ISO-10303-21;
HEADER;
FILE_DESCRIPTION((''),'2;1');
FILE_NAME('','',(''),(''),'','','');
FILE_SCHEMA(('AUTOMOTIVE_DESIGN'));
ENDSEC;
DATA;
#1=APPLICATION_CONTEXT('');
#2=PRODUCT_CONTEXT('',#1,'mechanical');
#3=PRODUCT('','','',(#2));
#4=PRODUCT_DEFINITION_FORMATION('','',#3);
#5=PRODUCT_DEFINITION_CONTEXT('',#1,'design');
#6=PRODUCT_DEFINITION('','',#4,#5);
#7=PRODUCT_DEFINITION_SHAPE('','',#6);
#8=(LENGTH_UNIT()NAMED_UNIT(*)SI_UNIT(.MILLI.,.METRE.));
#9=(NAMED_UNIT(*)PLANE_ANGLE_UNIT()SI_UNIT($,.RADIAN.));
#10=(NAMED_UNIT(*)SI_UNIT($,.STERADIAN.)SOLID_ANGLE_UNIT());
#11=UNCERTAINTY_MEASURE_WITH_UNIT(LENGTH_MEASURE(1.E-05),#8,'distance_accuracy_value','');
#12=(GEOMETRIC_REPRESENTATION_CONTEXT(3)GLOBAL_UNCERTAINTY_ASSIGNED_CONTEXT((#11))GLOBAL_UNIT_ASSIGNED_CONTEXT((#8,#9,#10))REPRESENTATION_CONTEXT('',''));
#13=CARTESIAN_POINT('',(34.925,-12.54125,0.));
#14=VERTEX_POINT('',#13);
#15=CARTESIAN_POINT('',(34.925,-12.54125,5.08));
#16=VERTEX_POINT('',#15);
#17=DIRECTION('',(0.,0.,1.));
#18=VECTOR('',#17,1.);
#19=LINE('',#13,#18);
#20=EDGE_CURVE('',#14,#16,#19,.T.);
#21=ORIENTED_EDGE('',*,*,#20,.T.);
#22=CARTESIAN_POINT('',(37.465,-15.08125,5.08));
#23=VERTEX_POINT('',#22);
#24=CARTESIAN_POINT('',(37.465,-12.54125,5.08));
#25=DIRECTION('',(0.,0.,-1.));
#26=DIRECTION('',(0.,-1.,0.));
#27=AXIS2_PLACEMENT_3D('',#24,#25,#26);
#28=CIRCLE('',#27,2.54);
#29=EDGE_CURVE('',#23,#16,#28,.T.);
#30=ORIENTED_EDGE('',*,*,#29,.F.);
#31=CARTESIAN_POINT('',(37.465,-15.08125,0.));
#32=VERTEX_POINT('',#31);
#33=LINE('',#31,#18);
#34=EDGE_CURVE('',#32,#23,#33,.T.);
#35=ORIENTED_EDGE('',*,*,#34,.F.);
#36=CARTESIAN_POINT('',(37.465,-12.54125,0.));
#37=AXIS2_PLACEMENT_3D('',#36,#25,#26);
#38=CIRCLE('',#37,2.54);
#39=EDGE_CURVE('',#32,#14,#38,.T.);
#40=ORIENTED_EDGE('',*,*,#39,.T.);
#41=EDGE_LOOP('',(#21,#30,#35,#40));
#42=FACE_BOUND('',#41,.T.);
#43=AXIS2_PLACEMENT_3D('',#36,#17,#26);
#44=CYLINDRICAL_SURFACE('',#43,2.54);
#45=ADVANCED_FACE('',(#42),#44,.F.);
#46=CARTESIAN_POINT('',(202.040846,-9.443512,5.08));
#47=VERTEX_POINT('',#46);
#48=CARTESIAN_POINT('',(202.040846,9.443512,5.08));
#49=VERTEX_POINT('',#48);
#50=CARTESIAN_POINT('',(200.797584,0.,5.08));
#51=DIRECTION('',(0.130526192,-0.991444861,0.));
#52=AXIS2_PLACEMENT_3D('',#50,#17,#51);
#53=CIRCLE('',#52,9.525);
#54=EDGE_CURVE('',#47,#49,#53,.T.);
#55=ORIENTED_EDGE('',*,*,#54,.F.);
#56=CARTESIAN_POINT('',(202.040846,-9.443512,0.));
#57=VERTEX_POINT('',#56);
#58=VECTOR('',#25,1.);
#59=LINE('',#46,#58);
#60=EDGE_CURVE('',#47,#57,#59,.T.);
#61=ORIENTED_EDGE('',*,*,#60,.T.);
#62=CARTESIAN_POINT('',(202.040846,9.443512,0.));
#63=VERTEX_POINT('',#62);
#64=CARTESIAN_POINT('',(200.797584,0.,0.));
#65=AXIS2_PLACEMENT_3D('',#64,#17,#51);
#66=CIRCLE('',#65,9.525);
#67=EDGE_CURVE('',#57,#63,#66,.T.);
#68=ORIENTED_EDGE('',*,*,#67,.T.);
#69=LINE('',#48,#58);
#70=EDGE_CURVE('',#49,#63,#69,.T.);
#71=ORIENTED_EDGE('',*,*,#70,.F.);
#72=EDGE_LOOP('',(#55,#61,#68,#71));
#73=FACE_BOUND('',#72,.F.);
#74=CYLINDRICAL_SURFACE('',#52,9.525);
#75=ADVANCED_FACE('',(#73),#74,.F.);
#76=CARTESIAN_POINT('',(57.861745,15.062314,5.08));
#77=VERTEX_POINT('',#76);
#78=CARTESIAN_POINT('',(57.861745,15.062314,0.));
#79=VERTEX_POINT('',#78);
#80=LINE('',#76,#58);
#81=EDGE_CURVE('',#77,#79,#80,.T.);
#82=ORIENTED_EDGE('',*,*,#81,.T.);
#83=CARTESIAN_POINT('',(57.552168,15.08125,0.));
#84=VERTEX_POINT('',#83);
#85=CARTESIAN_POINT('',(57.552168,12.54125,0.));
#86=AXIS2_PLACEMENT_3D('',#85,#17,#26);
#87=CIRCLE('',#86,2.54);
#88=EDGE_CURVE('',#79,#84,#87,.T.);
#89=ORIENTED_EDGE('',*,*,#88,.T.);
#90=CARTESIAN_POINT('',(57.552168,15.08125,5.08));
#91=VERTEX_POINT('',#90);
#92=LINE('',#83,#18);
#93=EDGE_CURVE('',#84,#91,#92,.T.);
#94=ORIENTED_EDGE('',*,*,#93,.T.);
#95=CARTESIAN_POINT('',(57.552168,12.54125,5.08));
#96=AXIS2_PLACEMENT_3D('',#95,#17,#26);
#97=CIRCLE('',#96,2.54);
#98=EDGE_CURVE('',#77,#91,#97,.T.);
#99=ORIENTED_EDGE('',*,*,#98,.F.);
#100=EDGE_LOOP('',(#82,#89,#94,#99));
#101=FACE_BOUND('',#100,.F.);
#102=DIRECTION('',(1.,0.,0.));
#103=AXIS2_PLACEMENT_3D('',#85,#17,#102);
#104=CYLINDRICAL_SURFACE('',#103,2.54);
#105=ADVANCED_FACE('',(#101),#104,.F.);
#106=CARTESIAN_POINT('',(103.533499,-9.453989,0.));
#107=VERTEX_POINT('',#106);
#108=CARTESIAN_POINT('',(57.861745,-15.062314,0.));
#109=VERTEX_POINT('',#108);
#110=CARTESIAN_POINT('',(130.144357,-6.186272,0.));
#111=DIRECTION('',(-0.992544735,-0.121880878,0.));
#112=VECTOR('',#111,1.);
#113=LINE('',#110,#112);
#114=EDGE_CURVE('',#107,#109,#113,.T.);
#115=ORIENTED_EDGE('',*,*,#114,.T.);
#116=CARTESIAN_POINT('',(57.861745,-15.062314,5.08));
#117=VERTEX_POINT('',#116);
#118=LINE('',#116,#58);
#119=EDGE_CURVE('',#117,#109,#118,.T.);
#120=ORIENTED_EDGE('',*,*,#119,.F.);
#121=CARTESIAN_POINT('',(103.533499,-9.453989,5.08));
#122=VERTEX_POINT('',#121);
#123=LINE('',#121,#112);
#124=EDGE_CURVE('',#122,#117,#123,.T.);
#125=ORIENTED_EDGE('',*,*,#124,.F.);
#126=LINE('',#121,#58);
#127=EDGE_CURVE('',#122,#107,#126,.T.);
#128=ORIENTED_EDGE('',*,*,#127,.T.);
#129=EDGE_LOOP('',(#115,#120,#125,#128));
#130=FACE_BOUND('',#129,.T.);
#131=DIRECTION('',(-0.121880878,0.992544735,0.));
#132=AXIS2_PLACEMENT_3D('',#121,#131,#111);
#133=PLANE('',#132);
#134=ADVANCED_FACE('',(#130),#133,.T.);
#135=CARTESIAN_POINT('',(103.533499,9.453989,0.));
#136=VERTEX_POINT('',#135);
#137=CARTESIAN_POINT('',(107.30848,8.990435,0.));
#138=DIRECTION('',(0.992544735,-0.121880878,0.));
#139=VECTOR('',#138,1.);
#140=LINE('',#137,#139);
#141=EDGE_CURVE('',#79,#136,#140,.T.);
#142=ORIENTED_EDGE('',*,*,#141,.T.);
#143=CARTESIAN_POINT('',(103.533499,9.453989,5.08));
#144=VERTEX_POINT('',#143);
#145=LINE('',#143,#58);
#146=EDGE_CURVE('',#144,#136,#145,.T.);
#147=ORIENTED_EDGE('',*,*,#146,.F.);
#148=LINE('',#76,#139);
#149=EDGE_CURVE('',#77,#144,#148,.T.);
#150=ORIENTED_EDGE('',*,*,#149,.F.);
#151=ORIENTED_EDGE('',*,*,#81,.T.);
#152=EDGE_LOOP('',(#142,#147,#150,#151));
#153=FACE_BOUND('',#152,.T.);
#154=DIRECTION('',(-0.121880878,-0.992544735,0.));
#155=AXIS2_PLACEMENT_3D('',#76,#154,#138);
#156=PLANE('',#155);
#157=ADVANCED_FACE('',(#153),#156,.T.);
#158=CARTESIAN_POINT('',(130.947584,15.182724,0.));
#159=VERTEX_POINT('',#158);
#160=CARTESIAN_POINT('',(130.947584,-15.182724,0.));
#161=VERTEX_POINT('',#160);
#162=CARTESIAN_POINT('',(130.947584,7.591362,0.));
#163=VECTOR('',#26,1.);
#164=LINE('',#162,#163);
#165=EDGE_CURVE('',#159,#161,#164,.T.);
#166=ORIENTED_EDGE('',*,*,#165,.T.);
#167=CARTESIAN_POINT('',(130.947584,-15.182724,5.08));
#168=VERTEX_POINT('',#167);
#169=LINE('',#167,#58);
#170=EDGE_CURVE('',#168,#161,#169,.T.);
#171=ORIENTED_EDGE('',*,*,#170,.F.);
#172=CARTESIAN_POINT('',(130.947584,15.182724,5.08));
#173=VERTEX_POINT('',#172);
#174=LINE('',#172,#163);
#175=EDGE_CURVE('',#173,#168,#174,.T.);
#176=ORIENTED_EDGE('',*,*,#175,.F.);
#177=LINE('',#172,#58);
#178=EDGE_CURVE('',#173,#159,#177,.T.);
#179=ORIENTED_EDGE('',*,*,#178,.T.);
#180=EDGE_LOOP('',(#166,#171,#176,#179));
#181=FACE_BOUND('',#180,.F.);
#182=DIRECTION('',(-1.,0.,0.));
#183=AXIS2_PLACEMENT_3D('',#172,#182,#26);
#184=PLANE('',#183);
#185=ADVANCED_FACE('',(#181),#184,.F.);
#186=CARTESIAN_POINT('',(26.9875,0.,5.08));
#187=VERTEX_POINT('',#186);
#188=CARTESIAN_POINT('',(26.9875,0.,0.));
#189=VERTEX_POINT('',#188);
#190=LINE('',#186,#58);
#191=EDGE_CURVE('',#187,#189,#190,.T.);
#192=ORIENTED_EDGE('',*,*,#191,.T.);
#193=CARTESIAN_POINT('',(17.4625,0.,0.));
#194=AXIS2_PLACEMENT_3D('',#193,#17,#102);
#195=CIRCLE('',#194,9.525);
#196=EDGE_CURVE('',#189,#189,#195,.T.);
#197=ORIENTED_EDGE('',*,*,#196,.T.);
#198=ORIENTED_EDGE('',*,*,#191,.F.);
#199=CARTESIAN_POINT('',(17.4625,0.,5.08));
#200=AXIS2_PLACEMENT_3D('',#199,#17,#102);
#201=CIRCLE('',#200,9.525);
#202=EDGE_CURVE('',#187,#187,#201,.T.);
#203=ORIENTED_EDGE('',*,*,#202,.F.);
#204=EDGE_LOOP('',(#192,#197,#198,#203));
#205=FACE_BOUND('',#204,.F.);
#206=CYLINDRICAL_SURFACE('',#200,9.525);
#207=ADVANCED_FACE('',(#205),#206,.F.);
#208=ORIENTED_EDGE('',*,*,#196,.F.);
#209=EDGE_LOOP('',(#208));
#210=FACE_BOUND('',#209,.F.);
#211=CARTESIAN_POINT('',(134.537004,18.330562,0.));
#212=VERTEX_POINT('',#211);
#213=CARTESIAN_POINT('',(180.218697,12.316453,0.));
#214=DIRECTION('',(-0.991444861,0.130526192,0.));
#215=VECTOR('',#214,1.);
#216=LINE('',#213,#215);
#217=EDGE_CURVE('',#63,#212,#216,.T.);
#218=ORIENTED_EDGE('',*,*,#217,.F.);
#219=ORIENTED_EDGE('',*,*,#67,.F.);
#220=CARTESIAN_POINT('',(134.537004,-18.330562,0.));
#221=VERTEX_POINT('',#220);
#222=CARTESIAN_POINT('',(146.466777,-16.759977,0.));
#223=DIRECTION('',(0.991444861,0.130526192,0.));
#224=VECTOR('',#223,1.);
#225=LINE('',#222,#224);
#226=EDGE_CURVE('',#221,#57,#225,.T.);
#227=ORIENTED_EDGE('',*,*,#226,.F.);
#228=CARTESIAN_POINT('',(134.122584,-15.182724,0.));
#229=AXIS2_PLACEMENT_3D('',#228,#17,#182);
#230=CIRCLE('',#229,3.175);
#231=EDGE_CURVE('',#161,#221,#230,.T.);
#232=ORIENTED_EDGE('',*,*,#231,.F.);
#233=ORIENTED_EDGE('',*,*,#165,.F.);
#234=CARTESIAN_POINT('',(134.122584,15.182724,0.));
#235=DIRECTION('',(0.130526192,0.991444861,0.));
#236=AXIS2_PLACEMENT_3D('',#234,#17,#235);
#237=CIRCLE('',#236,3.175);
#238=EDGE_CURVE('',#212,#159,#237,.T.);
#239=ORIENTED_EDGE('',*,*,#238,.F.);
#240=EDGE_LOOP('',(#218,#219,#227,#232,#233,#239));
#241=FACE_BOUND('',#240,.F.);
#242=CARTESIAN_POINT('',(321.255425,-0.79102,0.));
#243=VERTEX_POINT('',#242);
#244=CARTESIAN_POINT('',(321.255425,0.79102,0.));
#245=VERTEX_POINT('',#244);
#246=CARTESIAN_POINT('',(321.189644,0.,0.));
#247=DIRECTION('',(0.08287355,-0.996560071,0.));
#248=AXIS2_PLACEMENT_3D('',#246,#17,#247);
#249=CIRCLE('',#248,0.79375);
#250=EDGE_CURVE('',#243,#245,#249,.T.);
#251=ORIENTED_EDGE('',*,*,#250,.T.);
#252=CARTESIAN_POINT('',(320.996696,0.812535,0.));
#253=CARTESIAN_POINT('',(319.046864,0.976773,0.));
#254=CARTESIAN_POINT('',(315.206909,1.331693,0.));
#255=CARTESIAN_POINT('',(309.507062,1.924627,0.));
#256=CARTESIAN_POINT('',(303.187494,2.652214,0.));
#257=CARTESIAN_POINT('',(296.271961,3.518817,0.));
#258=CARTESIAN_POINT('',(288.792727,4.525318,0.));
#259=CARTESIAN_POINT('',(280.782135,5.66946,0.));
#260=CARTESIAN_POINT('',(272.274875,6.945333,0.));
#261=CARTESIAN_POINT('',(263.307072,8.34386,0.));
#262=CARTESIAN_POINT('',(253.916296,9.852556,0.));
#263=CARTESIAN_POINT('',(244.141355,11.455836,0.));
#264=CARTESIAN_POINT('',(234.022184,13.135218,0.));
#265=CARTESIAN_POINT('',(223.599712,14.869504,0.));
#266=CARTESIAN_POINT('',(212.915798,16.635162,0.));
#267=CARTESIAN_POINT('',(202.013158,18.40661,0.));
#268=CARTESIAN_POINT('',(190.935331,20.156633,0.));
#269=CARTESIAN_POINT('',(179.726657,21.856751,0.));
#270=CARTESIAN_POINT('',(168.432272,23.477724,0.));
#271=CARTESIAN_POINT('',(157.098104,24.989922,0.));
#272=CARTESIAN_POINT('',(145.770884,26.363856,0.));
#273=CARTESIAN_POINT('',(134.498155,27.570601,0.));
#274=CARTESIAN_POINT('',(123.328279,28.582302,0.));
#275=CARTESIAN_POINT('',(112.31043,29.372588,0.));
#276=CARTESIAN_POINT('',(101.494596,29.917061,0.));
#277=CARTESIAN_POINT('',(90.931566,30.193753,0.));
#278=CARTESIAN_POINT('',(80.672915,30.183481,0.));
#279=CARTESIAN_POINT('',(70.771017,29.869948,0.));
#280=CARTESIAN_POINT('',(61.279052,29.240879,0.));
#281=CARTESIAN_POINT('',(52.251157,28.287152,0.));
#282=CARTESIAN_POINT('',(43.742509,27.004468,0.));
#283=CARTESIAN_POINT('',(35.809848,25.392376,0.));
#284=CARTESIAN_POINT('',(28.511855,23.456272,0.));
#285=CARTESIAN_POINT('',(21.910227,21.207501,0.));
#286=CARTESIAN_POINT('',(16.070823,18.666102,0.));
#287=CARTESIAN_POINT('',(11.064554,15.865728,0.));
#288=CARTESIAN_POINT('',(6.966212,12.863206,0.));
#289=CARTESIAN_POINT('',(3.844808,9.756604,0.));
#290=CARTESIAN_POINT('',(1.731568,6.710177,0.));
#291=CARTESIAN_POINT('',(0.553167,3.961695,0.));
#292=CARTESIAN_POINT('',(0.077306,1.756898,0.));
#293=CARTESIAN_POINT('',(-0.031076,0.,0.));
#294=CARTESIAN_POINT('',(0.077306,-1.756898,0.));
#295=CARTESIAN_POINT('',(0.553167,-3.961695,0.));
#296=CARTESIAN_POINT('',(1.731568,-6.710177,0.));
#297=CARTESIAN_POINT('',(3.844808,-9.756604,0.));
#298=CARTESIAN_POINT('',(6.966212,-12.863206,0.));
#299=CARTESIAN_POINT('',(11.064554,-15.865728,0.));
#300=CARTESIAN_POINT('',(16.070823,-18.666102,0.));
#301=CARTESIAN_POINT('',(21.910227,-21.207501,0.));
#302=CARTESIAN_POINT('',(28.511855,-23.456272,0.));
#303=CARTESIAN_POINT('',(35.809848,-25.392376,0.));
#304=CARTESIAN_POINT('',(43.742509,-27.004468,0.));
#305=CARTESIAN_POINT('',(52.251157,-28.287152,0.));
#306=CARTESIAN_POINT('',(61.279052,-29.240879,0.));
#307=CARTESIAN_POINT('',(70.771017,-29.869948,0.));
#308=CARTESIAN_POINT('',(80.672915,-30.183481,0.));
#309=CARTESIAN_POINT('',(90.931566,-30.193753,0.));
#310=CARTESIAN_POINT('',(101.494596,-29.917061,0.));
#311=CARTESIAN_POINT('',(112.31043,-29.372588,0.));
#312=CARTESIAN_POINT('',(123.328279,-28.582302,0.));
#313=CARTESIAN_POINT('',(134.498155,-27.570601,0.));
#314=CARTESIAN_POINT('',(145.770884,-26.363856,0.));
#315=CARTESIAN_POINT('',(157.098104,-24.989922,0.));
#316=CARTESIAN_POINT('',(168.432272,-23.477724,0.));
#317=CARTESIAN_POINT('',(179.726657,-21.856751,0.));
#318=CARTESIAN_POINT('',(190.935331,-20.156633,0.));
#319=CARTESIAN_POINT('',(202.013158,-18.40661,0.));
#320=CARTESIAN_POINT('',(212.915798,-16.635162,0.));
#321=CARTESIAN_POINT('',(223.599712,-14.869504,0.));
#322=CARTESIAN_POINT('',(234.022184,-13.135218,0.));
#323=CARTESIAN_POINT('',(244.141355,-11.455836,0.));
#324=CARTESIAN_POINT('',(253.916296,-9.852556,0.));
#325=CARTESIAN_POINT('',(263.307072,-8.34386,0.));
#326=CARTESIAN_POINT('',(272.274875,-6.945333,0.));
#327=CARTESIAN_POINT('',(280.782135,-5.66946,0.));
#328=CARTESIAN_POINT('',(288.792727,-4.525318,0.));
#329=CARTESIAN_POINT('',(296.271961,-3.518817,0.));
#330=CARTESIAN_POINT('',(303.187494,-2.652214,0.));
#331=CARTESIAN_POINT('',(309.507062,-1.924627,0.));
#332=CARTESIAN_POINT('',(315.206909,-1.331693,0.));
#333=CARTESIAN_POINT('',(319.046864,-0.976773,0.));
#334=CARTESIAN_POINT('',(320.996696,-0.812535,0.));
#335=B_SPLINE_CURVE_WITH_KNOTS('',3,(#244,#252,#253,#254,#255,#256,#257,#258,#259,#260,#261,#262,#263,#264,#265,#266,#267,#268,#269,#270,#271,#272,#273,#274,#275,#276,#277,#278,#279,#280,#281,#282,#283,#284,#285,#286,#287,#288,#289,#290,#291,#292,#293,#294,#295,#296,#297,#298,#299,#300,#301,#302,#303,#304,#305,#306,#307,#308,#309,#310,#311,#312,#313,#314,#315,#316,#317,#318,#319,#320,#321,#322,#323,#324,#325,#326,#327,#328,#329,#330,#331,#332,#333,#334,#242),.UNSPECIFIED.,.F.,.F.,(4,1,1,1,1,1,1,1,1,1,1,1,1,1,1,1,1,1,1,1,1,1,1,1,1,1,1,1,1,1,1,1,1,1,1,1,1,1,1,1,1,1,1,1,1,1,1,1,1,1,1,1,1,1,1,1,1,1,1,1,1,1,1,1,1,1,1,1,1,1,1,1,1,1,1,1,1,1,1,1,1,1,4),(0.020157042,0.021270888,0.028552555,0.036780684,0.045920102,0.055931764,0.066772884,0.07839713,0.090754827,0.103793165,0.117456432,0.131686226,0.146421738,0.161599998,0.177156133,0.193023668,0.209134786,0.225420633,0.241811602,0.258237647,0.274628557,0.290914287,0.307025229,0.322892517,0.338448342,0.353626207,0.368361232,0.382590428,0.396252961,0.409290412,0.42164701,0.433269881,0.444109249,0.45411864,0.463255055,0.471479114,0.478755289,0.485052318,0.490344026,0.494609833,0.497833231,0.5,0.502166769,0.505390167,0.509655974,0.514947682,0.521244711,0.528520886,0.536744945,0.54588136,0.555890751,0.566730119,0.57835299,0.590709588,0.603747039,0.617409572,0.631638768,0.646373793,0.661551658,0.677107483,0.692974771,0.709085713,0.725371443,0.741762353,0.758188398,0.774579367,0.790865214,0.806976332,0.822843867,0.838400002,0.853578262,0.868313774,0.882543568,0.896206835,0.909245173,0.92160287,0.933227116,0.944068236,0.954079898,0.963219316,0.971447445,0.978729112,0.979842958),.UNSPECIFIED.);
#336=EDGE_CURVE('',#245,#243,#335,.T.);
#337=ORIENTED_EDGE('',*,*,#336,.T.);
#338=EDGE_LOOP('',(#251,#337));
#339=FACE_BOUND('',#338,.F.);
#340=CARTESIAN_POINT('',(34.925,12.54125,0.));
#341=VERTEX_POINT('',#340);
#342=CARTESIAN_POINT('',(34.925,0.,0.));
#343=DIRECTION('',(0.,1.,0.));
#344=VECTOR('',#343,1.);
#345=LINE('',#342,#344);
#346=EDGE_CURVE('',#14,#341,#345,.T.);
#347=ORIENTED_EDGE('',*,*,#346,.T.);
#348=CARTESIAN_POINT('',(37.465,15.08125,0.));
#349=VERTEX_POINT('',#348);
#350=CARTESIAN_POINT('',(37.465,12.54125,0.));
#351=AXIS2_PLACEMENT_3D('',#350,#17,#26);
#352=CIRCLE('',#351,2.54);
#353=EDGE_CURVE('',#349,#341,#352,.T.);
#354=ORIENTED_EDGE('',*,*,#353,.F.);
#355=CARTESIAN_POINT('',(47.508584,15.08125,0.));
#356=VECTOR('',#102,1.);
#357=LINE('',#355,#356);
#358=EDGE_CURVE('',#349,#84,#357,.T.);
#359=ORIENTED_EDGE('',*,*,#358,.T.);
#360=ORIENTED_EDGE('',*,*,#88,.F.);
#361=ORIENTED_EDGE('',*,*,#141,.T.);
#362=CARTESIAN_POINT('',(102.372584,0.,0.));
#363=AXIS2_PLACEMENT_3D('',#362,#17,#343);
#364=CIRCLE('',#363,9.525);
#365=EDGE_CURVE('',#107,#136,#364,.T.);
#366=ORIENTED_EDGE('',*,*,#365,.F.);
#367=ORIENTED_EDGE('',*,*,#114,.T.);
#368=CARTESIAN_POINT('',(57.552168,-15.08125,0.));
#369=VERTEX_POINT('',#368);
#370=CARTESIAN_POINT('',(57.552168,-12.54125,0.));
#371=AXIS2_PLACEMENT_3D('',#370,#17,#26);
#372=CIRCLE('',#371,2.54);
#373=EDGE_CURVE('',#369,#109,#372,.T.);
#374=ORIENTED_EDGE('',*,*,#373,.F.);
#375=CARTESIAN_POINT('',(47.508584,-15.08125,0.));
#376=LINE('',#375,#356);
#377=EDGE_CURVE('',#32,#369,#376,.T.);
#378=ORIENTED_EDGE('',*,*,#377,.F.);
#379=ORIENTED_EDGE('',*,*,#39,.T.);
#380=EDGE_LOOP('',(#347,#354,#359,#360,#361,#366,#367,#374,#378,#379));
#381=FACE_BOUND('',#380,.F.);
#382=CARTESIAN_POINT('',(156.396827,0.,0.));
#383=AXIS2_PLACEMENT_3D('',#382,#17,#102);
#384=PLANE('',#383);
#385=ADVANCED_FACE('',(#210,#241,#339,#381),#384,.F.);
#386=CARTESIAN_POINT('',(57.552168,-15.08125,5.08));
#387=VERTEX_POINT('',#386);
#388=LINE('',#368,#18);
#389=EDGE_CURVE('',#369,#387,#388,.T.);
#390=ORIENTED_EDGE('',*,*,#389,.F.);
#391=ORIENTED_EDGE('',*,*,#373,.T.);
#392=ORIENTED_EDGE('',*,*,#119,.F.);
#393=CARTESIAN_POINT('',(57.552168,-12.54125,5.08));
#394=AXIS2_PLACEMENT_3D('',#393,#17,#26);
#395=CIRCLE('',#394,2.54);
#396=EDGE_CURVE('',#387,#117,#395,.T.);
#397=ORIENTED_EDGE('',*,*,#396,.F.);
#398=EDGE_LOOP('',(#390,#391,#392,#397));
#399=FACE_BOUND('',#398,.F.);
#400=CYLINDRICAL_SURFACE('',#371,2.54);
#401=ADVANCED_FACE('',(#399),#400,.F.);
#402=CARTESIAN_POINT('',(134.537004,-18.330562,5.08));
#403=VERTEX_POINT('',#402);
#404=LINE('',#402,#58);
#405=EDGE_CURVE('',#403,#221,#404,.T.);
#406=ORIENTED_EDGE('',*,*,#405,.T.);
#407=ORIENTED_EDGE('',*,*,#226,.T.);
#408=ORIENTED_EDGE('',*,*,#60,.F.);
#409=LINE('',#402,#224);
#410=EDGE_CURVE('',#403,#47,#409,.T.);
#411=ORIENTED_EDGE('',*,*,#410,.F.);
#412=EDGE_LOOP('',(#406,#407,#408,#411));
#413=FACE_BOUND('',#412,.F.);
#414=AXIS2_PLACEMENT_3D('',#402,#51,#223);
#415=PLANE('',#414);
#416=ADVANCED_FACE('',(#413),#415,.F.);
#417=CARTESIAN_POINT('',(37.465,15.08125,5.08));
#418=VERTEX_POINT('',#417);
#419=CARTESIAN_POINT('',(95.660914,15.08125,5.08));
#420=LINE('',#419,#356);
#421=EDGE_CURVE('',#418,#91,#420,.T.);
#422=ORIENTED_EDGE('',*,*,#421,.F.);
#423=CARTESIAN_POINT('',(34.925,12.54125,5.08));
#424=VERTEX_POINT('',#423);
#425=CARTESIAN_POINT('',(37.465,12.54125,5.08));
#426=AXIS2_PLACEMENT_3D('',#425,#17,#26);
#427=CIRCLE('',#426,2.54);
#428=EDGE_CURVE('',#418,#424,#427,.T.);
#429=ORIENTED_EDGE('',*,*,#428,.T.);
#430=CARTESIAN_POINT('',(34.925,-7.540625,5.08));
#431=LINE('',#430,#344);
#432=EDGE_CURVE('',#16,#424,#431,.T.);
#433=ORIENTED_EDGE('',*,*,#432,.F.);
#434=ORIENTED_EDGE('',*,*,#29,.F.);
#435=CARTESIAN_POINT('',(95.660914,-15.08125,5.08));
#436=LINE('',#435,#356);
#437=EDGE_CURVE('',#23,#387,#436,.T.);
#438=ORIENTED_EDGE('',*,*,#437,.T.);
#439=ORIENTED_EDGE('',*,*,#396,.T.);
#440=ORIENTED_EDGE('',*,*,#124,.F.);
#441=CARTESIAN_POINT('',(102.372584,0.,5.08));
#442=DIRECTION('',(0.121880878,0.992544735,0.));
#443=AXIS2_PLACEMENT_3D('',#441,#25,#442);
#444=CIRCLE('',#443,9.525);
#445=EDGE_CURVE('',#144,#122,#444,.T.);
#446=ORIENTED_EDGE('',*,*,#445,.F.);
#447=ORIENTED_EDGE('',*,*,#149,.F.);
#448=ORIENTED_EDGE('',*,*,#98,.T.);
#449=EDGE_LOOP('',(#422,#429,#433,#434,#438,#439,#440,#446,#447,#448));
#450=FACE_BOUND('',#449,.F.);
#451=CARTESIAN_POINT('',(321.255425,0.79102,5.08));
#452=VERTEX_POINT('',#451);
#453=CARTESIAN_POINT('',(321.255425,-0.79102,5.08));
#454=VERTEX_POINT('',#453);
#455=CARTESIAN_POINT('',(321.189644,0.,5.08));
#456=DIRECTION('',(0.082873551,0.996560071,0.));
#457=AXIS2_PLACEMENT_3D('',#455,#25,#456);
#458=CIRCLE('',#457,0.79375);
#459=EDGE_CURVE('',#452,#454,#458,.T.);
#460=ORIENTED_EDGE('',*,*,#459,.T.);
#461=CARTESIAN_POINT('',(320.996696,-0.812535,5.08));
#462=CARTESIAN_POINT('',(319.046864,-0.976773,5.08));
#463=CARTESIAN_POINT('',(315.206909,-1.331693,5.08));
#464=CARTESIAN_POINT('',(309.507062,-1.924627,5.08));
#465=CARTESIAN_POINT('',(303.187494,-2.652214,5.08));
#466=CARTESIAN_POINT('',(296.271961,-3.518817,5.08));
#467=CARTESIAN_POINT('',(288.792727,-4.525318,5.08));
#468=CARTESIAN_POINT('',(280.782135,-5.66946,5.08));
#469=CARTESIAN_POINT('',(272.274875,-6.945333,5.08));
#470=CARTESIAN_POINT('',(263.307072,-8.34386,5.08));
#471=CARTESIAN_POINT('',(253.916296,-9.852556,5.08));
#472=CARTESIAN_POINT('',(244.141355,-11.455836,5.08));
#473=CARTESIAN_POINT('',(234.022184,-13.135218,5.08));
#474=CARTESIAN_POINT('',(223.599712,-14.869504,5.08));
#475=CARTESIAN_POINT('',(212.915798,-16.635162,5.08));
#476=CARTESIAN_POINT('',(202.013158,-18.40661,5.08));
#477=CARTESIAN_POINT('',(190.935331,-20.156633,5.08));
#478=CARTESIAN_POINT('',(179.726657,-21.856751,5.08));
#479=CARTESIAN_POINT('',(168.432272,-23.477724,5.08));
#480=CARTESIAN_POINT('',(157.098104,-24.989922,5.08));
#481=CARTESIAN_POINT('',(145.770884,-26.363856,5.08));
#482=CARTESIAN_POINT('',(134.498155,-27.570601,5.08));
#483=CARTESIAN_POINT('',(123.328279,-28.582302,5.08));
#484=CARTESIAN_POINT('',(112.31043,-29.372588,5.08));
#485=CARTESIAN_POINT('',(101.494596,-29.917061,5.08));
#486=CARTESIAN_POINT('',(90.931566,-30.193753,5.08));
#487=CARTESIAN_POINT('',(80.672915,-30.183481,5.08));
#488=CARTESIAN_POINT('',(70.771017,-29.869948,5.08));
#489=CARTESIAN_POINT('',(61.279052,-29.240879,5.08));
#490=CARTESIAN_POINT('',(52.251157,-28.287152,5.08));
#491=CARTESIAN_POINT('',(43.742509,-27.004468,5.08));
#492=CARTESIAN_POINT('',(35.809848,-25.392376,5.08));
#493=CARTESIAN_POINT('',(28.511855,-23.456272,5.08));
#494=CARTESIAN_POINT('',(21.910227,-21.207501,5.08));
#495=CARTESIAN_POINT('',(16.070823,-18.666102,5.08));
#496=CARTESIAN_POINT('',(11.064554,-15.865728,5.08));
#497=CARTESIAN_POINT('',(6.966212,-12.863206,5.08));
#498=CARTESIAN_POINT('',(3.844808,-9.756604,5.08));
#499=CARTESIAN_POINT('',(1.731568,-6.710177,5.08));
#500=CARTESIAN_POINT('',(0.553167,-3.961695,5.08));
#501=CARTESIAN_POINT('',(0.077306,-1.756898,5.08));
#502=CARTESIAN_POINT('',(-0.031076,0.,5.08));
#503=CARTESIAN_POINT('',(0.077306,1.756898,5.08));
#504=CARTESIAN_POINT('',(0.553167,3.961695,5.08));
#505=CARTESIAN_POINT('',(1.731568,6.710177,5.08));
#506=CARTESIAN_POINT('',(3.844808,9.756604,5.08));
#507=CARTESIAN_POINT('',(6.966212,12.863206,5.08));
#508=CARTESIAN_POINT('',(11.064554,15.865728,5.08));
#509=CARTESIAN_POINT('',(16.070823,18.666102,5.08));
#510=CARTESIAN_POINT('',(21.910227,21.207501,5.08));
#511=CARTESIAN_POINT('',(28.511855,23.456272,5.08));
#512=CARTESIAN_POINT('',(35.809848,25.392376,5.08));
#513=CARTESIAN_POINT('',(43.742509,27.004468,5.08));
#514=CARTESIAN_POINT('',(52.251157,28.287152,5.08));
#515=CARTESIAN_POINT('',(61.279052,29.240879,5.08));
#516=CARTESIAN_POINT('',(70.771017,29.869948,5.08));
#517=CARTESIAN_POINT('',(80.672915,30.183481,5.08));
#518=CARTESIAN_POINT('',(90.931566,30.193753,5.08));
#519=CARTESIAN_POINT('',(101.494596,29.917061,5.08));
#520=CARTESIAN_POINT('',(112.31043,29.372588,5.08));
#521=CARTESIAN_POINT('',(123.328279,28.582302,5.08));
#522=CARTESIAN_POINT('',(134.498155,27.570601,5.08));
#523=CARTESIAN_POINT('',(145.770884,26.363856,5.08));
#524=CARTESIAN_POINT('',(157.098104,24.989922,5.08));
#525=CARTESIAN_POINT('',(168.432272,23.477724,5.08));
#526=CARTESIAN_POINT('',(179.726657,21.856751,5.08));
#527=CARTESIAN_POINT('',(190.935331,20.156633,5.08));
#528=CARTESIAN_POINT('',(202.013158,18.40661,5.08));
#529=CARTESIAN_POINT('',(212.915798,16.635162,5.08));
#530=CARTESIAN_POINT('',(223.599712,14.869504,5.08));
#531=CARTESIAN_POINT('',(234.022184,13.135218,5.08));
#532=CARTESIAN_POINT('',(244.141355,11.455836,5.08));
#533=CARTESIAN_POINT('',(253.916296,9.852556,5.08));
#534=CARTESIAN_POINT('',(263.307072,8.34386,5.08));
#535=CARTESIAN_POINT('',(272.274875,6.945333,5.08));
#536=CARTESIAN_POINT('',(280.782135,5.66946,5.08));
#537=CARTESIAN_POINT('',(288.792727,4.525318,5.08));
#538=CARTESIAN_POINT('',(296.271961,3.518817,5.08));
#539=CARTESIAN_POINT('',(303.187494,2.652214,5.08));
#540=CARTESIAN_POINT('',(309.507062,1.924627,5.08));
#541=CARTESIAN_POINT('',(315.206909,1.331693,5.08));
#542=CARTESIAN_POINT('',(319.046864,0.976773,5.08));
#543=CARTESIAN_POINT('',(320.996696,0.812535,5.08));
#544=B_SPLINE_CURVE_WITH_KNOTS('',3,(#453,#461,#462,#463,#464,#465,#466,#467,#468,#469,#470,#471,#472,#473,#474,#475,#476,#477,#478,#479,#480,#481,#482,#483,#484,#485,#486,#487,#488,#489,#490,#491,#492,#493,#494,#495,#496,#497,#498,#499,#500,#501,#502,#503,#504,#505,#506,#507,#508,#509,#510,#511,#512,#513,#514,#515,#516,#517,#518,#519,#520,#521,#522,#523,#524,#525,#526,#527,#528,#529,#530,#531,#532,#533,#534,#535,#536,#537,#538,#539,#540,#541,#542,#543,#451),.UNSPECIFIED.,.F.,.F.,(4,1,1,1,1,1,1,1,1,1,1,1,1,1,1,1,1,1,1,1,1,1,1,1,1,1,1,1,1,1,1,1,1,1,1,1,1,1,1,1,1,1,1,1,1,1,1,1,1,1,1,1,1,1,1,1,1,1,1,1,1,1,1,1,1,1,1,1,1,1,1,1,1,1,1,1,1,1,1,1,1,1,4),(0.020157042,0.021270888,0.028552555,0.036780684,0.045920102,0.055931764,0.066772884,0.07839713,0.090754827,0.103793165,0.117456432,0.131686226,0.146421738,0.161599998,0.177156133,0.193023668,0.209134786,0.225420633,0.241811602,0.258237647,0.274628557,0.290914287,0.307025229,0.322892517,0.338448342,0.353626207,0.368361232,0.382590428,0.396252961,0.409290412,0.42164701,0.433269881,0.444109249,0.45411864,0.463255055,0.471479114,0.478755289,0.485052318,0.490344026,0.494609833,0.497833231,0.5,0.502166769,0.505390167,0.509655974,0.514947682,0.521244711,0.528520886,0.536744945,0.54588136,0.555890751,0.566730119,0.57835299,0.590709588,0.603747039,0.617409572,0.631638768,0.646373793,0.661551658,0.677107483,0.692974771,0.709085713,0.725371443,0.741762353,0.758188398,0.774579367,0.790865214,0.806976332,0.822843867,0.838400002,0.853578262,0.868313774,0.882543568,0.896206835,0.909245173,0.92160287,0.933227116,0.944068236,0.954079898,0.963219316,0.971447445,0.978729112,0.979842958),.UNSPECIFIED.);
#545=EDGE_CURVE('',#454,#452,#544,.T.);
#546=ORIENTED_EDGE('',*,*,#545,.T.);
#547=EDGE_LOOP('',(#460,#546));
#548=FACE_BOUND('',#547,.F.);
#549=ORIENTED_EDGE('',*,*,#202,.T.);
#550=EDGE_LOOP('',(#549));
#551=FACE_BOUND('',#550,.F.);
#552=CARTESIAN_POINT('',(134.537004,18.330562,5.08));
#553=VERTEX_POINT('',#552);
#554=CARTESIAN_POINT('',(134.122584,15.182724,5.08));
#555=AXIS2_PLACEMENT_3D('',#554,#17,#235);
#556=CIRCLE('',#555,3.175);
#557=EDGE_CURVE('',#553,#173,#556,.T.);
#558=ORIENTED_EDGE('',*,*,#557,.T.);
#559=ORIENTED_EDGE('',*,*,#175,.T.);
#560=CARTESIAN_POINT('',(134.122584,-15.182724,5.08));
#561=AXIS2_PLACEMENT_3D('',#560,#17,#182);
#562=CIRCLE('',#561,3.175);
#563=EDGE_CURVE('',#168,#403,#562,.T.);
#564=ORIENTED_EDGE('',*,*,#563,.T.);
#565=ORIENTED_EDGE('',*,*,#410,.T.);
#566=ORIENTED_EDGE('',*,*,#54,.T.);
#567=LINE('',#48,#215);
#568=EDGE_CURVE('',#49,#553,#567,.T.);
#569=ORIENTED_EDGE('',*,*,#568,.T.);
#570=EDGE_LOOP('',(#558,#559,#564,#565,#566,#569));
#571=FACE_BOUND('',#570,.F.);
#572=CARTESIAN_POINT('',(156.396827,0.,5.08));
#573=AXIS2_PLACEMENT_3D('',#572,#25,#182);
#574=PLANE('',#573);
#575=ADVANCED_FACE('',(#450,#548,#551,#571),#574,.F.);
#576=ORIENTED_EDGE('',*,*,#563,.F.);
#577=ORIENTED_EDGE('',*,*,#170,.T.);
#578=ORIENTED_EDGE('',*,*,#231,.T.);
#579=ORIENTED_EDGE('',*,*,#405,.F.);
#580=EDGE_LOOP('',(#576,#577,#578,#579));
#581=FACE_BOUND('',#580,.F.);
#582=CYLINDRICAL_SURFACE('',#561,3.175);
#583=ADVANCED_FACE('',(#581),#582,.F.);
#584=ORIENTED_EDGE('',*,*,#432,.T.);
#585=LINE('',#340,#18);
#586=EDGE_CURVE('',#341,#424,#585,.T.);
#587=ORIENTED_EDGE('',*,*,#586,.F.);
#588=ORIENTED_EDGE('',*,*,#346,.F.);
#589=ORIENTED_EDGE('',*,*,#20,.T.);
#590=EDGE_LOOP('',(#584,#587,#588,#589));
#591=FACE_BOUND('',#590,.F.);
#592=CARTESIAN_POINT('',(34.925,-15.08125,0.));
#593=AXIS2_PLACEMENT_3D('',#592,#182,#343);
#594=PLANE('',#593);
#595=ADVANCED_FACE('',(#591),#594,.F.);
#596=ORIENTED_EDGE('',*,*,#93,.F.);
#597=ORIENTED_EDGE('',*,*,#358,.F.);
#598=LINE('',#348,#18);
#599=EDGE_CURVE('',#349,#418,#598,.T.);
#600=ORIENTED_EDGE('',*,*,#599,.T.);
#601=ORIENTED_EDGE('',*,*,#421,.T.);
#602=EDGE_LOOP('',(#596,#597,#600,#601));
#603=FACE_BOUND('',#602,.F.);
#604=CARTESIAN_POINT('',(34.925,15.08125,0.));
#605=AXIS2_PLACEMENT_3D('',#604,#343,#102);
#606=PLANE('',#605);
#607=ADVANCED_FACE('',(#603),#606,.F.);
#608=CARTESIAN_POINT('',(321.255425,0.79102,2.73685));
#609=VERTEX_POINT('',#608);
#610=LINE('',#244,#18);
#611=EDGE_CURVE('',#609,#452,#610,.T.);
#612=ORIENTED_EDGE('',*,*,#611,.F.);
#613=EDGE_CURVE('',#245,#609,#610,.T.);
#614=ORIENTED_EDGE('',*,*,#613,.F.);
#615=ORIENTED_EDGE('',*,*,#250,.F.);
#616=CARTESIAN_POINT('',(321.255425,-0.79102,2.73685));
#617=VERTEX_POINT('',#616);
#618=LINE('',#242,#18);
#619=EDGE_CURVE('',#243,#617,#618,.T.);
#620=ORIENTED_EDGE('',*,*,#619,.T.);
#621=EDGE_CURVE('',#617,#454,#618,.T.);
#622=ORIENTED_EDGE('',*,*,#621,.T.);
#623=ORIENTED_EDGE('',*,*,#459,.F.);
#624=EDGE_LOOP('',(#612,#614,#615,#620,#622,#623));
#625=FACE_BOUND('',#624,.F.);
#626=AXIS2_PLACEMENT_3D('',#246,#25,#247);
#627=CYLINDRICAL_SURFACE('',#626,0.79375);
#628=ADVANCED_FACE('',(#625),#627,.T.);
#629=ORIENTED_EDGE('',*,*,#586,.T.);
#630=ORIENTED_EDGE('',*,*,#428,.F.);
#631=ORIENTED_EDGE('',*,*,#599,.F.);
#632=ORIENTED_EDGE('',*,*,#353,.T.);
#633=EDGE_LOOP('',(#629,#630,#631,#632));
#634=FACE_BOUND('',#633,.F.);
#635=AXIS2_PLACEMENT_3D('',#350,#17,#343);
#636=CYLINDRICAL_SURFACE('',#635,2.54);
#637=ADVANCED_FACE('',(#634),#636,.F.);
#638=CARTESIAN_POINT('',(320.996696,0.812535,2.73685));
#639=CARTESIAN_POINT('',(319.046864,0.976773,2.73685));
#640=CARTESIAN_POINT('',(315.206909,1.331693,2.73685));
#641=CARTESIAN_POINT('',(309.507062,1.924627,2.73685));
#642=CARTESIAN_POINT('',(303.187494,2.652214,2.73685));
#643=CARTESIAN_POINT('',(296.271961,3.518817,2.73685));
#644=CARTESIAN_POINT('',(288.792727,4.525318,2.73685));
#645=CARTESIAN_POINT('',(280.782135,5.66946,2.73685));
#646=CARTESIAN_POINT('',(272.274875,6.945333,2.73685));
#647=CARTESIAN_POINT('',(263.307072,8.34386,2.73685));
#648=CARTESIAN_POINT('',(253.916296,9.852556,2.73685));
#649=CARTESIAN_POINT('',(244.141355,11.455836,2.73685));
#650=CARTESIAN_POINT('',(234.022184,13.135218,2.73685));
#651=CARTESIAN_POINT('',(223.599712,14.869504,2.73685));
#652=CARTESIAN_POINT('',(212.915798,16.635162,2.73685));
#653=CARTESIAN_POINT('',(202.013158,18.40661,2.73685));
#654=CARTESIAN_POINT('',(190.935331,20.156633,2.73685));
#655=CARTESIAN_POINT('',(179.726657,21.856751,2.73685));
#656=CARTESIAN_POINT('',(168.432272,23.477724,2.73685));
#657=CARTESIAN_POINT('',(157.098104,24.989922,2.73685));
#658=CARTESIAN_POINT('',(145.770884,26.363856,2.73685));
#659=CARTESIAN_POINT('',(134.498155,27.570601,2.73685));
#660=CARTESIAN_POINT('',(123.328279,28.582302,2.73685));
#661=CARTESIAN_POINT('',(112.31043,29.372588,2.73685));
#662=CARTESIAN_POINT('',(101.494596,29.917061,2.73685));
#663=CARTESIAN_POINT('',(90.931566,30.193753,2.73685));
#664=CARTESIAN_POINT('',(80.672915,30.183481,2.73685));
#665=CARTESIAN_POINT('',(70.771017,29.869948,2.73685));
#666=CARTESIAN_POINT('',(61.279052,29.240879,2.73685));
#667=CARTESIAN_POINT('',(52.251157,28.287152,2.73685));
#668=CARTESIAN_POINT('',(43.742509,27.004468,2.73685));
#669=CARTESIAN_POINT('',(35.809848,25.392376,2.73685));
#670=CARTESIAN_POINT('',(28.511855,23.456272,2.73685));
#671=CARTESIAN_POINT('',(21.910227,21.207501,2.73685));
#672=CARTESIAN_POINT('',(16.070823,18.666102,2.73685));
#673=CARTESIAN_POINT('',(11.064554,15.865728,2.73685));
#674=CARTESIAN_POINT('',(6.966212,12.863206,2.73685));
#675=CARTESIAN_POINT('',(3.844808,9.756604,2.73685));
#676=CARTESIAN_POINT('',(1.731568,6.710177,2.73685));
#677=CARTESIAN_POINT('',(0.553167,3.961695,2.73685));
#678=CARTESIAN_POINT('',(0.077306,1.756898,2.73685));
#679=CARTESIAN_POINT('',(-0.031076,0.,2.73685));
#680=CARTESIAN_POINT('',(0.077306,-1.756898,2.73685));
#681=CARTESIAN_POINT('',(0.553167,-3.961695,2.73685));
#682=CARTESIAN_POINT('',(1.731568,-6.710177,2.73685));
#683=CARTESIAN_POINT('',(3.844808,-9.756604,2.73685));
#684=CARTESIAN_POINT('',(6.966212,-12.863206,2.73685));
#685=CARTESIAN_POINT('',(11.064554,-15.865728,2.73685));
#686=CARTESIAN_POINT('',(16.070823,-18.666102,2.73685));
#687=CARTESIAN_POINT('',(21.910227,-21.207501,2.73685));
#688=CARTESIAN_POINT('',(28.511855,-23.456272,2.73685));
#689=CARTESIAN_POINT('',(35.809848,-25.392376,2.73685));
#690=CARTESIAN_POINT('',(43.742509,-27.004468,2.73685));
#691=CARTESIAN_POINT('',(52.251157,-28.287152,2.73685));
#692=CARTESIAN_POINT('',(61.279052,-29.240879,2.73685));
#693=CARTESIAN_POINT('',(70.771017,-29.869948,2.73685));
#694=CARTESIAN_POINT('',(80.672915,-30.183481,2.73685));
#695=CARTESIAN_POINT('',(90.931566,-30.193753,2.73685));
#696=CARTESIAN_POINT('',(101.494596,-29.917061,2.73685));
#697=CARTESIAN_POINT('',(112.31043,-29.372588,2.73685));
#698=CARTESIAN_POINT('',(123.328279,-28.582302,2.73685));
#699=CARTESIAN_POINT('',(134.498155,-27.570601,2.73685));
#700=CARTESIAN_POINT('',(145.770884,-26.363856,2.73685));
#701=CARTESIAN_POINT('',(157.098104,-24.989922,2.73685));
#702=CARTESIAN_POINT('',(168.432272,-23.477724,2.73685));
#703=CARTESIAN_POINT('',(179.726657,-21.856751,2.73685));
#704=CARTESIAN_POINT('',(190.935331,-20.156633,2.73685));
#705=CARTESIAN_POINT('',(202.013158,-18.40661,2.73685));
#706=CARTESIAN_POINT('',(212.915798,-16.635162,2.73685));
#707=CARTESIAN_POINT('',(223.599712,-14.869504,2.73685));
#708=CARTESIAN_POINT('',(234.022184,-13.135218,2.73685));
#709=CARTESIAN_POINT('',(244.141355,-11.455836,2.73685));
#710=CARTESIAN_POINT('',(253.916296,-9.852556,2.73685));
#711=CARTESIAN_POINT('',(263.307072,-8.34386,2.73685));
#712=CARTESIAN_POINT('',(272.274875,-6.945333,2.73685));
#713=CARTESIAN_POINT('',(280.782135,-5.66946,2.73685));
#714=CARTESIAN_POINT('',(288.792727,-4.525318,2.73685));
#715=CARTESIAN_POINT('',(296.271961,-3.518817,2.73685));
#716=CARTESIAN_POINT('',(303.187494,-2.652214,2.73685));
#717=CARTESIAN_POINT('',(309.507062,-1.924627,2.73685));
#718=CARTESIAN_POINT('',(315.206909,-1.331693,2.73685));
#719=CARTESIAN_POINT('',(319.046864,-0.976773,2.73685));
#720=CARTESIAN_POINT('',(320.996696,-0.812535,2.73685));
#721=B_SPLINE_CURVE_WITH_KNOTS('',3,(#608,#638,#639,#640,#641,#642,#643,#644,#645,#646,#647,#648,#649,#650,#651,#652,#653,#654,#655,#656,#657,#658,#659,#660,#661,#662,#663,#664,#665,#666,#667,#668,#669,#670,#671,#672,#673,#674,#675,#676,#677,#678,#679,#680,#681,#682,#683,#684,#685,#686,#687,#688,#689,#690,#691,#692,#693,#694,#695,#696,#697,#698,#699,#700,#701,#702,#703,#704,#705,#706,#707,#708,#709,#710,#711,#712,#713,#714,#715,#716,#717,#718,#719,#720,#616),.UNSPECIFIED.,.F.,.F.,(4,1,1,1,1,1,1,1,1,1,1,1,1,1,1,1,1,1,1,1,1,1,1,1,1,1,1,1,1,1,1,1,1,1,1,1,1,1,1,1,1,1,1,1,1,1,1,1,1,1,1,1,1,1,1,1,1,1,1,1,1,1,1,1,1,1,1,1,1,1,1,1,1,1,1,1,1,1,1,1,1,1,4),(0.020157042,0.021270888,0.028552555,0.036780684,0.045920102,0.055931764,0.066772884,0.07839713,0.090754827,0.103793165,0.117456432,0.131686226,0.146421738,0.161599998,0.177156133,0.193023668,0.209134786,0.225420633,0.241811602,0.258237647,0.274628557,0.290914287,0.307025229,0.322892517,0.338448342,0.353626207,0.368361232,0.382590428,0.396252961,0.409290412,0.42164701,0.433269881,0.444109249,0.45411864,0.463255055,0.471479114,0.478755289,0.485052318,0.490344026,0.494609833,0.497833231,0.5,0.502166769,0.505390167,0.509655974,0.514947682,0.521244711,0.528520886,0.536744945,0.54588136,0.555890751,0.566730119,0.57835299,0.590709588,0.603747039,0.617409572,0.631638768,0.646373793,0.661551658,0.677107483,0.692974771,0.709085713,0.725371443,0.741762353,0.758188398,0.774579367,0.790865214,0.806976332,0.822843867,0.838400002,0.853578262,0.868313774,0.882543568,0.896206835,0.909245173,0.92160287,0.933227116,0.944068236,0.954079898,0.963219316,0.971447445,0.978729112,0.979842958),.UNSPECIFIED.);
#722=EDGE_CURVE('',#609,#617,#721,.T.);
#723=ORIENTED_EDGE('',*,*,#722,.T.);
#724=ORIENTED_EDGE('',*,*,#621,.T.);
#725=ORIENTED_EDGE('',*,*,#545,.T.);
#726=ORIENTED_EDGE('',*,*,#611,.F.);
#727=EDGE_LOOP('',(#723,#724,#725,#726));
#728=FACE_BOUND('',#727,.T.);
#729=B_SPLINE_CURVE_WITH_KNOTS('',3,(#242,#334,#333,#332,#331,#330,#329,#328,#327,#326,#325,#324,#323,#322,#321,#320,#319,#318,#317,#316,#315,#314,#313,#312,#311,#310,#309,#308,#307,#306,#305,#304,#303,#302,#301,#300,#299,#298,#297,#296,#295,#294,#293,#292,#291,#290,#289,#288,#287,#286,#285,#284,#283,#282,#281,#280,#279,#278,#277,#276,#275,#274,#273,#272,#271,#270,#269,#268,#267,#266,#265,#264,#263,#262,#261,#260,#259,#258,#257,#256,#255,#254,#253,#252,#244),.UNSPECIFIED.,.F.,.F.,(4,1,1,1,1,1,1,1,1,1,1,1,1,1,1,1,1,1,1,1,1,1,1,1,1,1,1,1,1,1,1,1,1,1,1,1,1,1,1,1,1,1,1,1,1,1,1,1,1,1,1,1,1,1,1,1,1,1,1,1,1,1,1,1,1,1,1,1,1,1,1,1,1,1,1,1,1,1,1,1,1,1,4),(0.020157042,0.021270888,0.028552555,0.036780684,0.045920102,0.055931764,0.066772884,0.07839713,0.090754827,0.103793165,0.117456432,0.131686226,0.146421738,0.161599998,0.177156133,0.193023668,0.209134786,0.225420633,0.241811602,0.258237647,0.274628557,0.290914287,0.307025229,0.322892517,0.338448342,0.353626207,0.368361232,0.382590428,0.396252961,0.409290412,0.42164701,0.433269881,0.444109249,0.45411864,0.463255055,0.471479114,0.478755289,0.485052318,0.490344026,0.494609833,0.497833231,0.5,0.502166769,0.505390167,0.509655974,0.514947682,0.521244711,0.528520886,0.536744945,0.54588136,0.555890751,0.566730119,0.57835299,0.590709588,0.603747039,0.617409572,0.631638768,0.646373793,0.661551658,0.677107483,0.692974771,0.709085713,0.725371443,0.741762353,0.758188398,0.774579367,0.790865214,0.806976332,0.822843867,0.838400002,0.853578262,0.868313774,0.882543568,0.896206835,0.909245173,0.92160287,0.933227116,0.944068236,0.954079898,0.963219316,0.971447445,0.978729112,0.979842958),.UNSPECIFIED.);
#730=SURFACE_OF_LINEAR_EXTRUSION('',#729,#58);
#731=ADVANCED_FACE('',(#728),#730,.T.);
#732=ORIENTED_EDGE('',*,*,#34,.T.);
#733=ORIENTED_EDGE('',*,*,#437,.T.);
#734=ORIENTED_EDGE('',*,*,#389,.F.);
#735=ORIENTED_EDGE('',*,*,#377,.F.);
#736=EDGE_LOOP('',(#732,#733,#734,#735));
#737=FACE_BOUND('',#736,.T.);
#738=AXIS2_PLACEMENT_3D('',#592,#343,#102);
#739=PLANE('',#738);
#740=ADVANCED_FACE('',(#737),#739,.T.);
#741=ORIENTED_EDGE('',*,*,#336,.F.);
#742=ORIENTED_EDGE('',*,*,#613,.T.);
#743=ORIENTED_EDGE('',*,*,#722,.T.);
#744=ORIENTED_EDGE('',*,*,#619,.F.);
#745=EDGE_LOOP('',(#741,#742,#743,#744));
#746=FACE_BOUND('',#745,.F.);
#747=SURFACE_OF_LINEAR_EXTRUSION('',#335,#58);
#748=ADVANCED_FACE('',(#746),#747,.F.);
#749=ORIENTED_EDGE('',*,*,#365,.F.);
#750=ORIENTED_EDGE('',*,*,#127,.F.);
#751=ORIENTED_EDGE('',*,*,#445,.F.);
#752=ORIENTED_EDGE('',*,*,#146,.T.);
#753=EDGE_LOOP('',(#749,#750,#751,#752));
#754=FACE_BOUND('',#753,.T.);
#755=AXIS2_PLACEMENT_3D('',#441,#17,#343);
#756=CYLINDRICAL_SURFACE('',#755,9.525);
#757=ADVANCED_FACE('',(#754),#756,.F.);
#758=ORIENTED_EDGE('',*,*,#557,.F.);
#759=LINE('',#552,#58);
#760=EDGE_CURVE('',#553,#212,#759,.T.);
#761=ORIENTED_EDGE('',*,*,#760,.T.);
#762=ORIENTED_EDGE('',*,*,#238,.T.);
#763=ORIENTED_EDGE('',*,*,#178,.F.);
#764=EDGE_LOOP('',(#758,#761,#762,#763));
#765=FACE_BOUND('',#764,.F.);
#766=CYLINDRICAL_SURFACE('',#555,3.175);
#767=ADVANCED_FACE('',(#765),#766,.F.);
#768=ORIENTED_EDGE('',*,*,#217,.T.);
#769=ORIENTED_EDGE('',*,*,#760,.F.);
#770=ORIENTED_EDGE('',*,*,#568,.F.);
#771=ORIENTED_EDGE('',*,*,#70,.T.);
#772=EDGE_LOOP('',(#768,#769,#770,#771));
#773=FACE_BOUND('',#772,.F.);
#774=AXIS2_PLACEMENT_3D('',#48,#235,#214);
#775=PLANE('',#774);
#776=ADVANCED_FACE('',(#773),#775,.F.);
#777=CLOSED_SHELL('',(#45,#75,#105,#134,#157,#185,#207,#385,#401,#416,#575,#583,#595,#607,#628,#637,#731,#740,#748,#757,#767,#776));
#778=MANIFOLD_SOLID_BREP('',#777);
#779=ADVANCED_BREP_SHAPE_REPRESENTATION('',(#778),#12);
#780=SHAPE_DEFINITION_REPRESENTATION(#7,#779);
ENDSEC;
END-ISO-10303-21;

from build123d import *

# Parameters (mm, degrees)
BOSS_EXTRUDE1_DEPTH = 5.4737
SCALE1_SCALE        = 0.5
BOSS_EXTRUDE2_DEPTH = 5.08
SKETCH10_W          = 25.167167629
SKETCH10_H          = 30.1625
CUT_EXTRUDE6_DEPTH  = 6.0800001
FILLET1_R           = 2.54
CUT_EXTRUDE8_DEPTH  = 6.0800001
CUT_EXTRUDE9_DEPTH  = 6.0800001
SKETCH19_R          = 9.525
CUT_EXTRUDE10_DEPTH = 6.0800001


with BuildPart() as part:
    # Sketch2 → Boss-Extrude1 (new body)
    with BuildSketch(Plane.XY):
        with BuildLine():
            add(Edge.make_bspline(
                [(642.510849283, 1.582039112), (641.993392355, 1.625070631), (638.093728429, 1.953546407), (630.413817462, 2.663385493), (619.014124193, 3.849253664), (606.374988512, 5.304428983), (592.543922516, 7.037634907), (577.585454095, 9.050636147), (561.564270734, 11.338919625), (544.549749946, 13.890665375), (526.614143658, 16.687720753), (507.832591566, 19.705111663), (488.282710288, 22.911672601), (468.044367735, 26.27043606), (447.199424328, 29.739007432), (425.831595832, 33.270324121), (404.02631566, 36.813220545), (381.870662856, 40.313266856), (359.453314895, 43.713502532), (336.86454415, 46.955447457), (314.196207315, 49.979843895), (291.541767704, 52.727712704), (268.996310773, 55.141201012), (246.65655865, 57.164603829), (224.620860897, 58.745176641), (202.989192599, 59.8341217), (181.863132616, 60.387506142), (161.345829027, 60.366961324), (141.542033828, 59.739895824), (122.558104573, 58.481758104), (104.502313427, 56.574303932), (87.485018636, 54.008935199), (71.619696083, 50.784752003), (57.023709725, 46.912543066), (43.82045433, 42.41500246), (32.141645239, 37.332204029), (22.129107375, 31.731455339), (13.932423524, 25.726412106), (7.689616489, 19.513207632), (3.463136343, 13.420354421), (1.106333228, 7.923389435), (0.154611582, 3.513796615), (-0.062151598, 0), (0.154611582, -3.513796615), (1.106333228, -7.923389435), (3.463136343, -13.420354421), (7.689616489, -19.513207632), (13.932423524, -25.726412106), (22.129107375, -31.731455339), (32.141645239, -37.332204029), (43.82045433, -42.41500246), (57.023709725, -46.912543066), (71.619696083, -50.784752003), (87.485018636, -54.008935199), (104.502313427, -56.574303932), (122.558104573, -58.481758104), (141.542033828, -59.739895824), (161.345829027, -60.366961324), (181.863132616, -60.387506142), (202.989192599, -59.8341217), (224.620860897, -58.745176641), (246.65655865, -57.164603829), (268.996310773, -55.141201012), (291.541767704, -52.727712704), (314.196207315, -49.979843895), (336.86454415, -46.955447457), (359.453314895, -43.713502532), (381.870662856, -40.313266856), (404.02631566, -36.813220545), (425.831595832, -33.270324121), (447.199424328, -29.739007432), (468.044367735, -26.27043606), (488.282710288, -22.911672601), (507.832591566, -19.705111663), (526.614143658, -16.687720753), (544.549749946, -13.890665375), (561.564270734, -11.338919625), (577.585454095, -9.050636147), (592.543922516, -7.037634907), (606.374988512, -5.304428983), (619.014124193, -3.849253664), (630.413817462, -2.663385493), (638.093728429, -1.953546407), (641.993392355, -1.625070631), (642.510849283, -1.582039112)],
                knots=[0.020157042, 0.020157042, 0.020157042, 0.020157042, 0.021270888, 0.028552555, 0.036780684, 0.045920102, 0.055931764, 0.066772884, 0.07839713, 0.090754827, 0.103793165, 0.117456432, 0.131686226, 0.146421738, 0.161599998, 0.177156133, 0.193023668, 0.209134786, 0.225420633, 0.241811602, 0.258237647, 0.274628557, 0.290914287, 0.307025229, 0.322892517, 0.338448342, 0.353626207, 0.368361232, 0.382590428, 0.396252961, 0.409290412, 0.42164701, 0.433269881, 0.444109249, 0.45411864, 0.463255055, 0.471479114, 0.478755289, 0.485052318, 0.490344026, 0.494609833, 0.497833231, 0.5, 0.502166769, 0.505390167, 0.509655974, 0.514947682, 0.521244711, 0.528520886, 0.536744945, 0.54588136, 0.555890751, 0.566730119, 0.57835299, 0.590709588, 0.603747039, 0.617409572, 0.631638768, 0.646373793, 0.661551658, 0.677107483, 0.692974771, 0.709085713, 0.725371443, 0.741762353, 0.758188398, 0.774579367, 0.790865214, 0.806976332, 0.822843867, 0.838400002, 0.853578262, 0.868313774, 0.882543568, 0.896206835, 0.909245173, 0.92160287, 0.933227116, 0.944068236, 0.954079898, 0.963219316, 0.971447445, 0.978729112, 0.979842958, 0.979842958, 0.979842958, 0.979842958], degree=3))
            ThreePointArc((642.510849283, -1.582039112), (643.966787522, 0), (642.510849283, 1.582039112))
        make_face()
    extrude(amount=BOSS_EXTRUDE1_DEPTH)


with BuildPart() as part_1:
    # Scale1: scaled about (0, 0, 0)
    add(part.part.scale(SCALE1_SCALE))

    # Sketch11 → Boss-Extrude2 (add)
    with BuildSketch(Plane(origin=(0, 0, 0), x_dir=(-1, 0, 0), z_dir=(0, 0, -1))):
        with BuildLine():
            ThreePointArc((-321.255424642, 0.791019556), (-321.983393761, 0), (-321.255424642, -0.791019556))
            add(Edge.make_bspline(
                [(-321.255424642, -0.791019556), (-320.996696177, -0.812535315), (-319.046864214, -0.976773204), (-315.206908731, -1.331692747), (-309.507062097, -1.924626832), (-303.187494256, -2.652214492), (-296.271961258, -3.518817454), (-288.792727048, -4.525318074), (-280.782135367, -5.669459812), (-272.274874973, -6.945332687), (-263.307071829, -8.343860376), (-253.916295783, -9.852555831), (-244.141355144, -11.4558363), (-234.022183867, -13.13521803), (-223.599712164, -14.869503716), (-212.915797916, -16.63516206), (-202.01315783, -18.406610273), (-190.935331428, -20.156633428), (-179.726657448, -21.856751266), (-168.432272075, -23.477723728), (-157.098103658, -24.989921948), (-145.770883852, -26.363856352), (-134.498155387, -27.570600506), (-123.328279325, -28.582301914), (-112.310430449, -29.372588321), (-101.4945963, -29.91706085), (-90.931566308, -30.193753071), (-80.672914513, -30.183480662), (-70.771016914, -29.869947912), (-61.279052286, -29.240879052), (-52.251156714, -28.287151966), (-43.742509318, -27.0044676), (-35.809848042, -25.392376001), (-28.511854862, -23.456271533), (-21.910227165, -21.20750123), (-16.070822619, -18.666102014), (-11.064553688, -15.865727669), (-6.966211762, -12.863206053), (-3.844808245, -9.756603816), (-1.731568172, -6.71017721), (-0.553166614, -3.961694717), (-0.077305791, -1.756898308), (0.031075799, 0), (-0.077305791, 1.756898308), (-0.553166614, 3.961694717), (-1.731568172, 6.71017721), (-3.844808245, 9.756603816), (-6.966211762, 12.863206053), (-11.064553688, 15.865727669), (-16.070822619, 18.666102014), (-21.910227165, 21.20750123), (-28.511854862, 23.456271533), (-35.809848042, 25.392376001), (-43.742509318, 27.0044676), (-52.251156714, 28.287151966), (-61.279052286, 29.240879052), (-70.771016914, 29.869947912), (-80.672914513, 30.183480662), (-90.931566308, 30.193753071), (-101.4945963, 29.91706085), (-112.310430449, 29.372588321), (-123.328279325, 28.582301914), (-134.498155387, 27.570600506), (-145.770883852, 26.363856352), (-157.098103658, 24.989921948), (-168.432272075, 23.477723728), (-179.726657448, 21.856751266), (-190.935331428, 20.156633428), (-202.01315783, 18.406610273), (-212.915797916, 16.63516206), (-223.599712164, 14.869503716), (-234.022183867, 13.13521803), (-244.141355144, 11.4558363), (-253.916295783, 9.852555831), (-263.307071829, 8.343860376), (-272.274874973, 6.945332687), (-280.782135367, 5.669459812), (-288.792727048, 4.525318074), (-296.271961258, 3.518817454), (-303.187494256, 2.652214492), (-309.507062097, 1.924626832), (-315.206908731, 1.331692747), (-319.046864214, 0.976773204), (-320.996696177, 0.812535315), (-321.255424642, 0.791019556)],
                knots=[0.020157042, 0.020157042, 0.020157042, 0.020157042, 0.021270888, 0.028552555, 0.036780684, 0.045920102, 0.055931764, 0.066772884, 0.07839713, 0.090754827, 0.103793165, 0.117456432, 0.131686226, 0.146421738, 0.161599998, 0.177156133, 0.193023668, 0.209134786, 0.225420633, 0.241811602, 0.258237647, 0.274628557, 0.290914287, 0.307025229, 0.322892517, 0.338448342, 0.353626207, 0.368361232, 0.382590428, 0.396252961, 0.409290412, 0.42164701, 0.433269881, 0.444109249, 0.45411864, 0.463255055, 0.471479114, 0.478755289, 0.485052318, 0.490344026, 0.494609833, 0.497833231, 0.5, 0.502166769, 0.505390167, 0.509655974, 0.514947682, 0.521244711, 0.528520886, 0.536744945, 0.54588136, 0.555890751, 0.566730119, 0.57835299, 0.590709588, 0.603747039, 0.617409572, 0.631638768, 0.646373793, 0.661551658, 0.677107483, 0.692974771, 0.709085713, 0.725371443, 0.741762353, 0.758188398, 0.774579367, 0.790865214, 0.806976332, 0.822843867, 0.838400002, 0.853578262, 0.868313774, 0.882543568, 0.896206835, 0.909245173, 0.92160287, 0.933227116, 0.944068236, 0.954079898, 0.963219316, 0.971447445, 0.978729112, 0.979842958, 0.979842958, 0.979842958, 0.979842958], degree=3))
        make_face()
    extrude(amount=-BOSS_EXTRUDE2_DEPTH)

    # Sketch10 → Cut-Extrude6 (cut, through all)
    with BuildSketch(Plane.XY):
        with Locations((47.508583814, 0)):
            Rectangle(SKETCH10_W, SKETCH10_H)
    extrude(amount=CUT_EXTRUDE6_DEPTH, mode=Mode.SUBTRACT)

    # Fillet1
    fillet1_edges = [part_1.edges().sort_by_distance(p)[0] for p in [
        (60.092167629, -15.08125, 2.54),
        (60.092167629, 15.08125, 2.54),
        (34.925, 15.08125, 2.54),
        (34.925, -15.08125, 2.54),
    ]]
    fillet(fillet1_edges, radius=FILLET1_R)

    # Sketch16 → Cut-Extrude8 (cut, through all)
    with BuildSketch(Plane.XY.offset(5.08)):
        with BuildLine():
            Line((102.372583815, -9.525), (100.594583815, -9.525))
            ThreePointArc((100.594583815, -9.525), (91.069583815, 0), (100.594583815, 9.525))
            Line((100.594583815, 9.525), (102.372583815, 9.525))
            ThreePointArc((102.372583815, 9.525), (111.897583815, 0), (102.372583815, -9.525))
        make_face()
    extrude(amount=-CUT_EXTRUDE8_DEPTH, mode=Mode.SUBTRACT)

    # Sketch18 → Cut-Extrude9 (cut, through all)
    with BuildSketch(Plane.XY.offset(5.08)):
        with BuildLine():
            Line((57.861745058, 15.062313628), (103.533499174, 9.453988604))
            ThreePointArc((103.533499174, 9.453988604), (111.897583815, 0), (103.533499174, -9.453988604))
            Line((103.533499174, -9.453988604), (57.861745058, -15.062313628))
            ThreePointArc((57.861745058, -15.062313628), (59.454524939, -14.224293869), (60.092167629, -12.54125))
            Line((60.092167629, -12.54125), (60.092167629, 12.54125))
            ThreePointArc((60.092167629, 12.54125), (59.454524939, 14.224293869), (57.861745058, 15.062313628))
        make_face()
    extrude(amount=-CUT_EXTRUDE9_DEPTH, mode=Mode.SUBTRACT)

    # Sketch19 → Cut-Extrude10 (cut, through all)
    with BuildSketch(Plane.XY.offset(5.08)):
        with Locations((17.4625, 0)):
            Circle(SKETCH19_R)
        with BuildLine():
            Line((130.947583815, 15.182724176), (130.947583815, -15.182724176))
            ThreePointArc((130.947583815, -15.182724176), (132.029160852, -17.569815565), (134.537004475, -18.330561611))
            Line((134.537004475, -18.330561611), (202.040845795, -9.443512305))
            ThreePointArc((202.040845795, -9.443512305), (210.322583815, 0), (202.040845795, 9.443512305))
            Line((202.040845795, 9.443512305), (134.537004475, 18.330561611))
            ThreePointArc((134.537004475, 18.330561611), (132.029160852, 17.569815565), (130.947583815, 15.182724176))
        make_face()
    extrude(amount=-CUT_EXTRUDE10_DEPTH, mode=Mode.SUBTRACT)


solid = part_1.part
